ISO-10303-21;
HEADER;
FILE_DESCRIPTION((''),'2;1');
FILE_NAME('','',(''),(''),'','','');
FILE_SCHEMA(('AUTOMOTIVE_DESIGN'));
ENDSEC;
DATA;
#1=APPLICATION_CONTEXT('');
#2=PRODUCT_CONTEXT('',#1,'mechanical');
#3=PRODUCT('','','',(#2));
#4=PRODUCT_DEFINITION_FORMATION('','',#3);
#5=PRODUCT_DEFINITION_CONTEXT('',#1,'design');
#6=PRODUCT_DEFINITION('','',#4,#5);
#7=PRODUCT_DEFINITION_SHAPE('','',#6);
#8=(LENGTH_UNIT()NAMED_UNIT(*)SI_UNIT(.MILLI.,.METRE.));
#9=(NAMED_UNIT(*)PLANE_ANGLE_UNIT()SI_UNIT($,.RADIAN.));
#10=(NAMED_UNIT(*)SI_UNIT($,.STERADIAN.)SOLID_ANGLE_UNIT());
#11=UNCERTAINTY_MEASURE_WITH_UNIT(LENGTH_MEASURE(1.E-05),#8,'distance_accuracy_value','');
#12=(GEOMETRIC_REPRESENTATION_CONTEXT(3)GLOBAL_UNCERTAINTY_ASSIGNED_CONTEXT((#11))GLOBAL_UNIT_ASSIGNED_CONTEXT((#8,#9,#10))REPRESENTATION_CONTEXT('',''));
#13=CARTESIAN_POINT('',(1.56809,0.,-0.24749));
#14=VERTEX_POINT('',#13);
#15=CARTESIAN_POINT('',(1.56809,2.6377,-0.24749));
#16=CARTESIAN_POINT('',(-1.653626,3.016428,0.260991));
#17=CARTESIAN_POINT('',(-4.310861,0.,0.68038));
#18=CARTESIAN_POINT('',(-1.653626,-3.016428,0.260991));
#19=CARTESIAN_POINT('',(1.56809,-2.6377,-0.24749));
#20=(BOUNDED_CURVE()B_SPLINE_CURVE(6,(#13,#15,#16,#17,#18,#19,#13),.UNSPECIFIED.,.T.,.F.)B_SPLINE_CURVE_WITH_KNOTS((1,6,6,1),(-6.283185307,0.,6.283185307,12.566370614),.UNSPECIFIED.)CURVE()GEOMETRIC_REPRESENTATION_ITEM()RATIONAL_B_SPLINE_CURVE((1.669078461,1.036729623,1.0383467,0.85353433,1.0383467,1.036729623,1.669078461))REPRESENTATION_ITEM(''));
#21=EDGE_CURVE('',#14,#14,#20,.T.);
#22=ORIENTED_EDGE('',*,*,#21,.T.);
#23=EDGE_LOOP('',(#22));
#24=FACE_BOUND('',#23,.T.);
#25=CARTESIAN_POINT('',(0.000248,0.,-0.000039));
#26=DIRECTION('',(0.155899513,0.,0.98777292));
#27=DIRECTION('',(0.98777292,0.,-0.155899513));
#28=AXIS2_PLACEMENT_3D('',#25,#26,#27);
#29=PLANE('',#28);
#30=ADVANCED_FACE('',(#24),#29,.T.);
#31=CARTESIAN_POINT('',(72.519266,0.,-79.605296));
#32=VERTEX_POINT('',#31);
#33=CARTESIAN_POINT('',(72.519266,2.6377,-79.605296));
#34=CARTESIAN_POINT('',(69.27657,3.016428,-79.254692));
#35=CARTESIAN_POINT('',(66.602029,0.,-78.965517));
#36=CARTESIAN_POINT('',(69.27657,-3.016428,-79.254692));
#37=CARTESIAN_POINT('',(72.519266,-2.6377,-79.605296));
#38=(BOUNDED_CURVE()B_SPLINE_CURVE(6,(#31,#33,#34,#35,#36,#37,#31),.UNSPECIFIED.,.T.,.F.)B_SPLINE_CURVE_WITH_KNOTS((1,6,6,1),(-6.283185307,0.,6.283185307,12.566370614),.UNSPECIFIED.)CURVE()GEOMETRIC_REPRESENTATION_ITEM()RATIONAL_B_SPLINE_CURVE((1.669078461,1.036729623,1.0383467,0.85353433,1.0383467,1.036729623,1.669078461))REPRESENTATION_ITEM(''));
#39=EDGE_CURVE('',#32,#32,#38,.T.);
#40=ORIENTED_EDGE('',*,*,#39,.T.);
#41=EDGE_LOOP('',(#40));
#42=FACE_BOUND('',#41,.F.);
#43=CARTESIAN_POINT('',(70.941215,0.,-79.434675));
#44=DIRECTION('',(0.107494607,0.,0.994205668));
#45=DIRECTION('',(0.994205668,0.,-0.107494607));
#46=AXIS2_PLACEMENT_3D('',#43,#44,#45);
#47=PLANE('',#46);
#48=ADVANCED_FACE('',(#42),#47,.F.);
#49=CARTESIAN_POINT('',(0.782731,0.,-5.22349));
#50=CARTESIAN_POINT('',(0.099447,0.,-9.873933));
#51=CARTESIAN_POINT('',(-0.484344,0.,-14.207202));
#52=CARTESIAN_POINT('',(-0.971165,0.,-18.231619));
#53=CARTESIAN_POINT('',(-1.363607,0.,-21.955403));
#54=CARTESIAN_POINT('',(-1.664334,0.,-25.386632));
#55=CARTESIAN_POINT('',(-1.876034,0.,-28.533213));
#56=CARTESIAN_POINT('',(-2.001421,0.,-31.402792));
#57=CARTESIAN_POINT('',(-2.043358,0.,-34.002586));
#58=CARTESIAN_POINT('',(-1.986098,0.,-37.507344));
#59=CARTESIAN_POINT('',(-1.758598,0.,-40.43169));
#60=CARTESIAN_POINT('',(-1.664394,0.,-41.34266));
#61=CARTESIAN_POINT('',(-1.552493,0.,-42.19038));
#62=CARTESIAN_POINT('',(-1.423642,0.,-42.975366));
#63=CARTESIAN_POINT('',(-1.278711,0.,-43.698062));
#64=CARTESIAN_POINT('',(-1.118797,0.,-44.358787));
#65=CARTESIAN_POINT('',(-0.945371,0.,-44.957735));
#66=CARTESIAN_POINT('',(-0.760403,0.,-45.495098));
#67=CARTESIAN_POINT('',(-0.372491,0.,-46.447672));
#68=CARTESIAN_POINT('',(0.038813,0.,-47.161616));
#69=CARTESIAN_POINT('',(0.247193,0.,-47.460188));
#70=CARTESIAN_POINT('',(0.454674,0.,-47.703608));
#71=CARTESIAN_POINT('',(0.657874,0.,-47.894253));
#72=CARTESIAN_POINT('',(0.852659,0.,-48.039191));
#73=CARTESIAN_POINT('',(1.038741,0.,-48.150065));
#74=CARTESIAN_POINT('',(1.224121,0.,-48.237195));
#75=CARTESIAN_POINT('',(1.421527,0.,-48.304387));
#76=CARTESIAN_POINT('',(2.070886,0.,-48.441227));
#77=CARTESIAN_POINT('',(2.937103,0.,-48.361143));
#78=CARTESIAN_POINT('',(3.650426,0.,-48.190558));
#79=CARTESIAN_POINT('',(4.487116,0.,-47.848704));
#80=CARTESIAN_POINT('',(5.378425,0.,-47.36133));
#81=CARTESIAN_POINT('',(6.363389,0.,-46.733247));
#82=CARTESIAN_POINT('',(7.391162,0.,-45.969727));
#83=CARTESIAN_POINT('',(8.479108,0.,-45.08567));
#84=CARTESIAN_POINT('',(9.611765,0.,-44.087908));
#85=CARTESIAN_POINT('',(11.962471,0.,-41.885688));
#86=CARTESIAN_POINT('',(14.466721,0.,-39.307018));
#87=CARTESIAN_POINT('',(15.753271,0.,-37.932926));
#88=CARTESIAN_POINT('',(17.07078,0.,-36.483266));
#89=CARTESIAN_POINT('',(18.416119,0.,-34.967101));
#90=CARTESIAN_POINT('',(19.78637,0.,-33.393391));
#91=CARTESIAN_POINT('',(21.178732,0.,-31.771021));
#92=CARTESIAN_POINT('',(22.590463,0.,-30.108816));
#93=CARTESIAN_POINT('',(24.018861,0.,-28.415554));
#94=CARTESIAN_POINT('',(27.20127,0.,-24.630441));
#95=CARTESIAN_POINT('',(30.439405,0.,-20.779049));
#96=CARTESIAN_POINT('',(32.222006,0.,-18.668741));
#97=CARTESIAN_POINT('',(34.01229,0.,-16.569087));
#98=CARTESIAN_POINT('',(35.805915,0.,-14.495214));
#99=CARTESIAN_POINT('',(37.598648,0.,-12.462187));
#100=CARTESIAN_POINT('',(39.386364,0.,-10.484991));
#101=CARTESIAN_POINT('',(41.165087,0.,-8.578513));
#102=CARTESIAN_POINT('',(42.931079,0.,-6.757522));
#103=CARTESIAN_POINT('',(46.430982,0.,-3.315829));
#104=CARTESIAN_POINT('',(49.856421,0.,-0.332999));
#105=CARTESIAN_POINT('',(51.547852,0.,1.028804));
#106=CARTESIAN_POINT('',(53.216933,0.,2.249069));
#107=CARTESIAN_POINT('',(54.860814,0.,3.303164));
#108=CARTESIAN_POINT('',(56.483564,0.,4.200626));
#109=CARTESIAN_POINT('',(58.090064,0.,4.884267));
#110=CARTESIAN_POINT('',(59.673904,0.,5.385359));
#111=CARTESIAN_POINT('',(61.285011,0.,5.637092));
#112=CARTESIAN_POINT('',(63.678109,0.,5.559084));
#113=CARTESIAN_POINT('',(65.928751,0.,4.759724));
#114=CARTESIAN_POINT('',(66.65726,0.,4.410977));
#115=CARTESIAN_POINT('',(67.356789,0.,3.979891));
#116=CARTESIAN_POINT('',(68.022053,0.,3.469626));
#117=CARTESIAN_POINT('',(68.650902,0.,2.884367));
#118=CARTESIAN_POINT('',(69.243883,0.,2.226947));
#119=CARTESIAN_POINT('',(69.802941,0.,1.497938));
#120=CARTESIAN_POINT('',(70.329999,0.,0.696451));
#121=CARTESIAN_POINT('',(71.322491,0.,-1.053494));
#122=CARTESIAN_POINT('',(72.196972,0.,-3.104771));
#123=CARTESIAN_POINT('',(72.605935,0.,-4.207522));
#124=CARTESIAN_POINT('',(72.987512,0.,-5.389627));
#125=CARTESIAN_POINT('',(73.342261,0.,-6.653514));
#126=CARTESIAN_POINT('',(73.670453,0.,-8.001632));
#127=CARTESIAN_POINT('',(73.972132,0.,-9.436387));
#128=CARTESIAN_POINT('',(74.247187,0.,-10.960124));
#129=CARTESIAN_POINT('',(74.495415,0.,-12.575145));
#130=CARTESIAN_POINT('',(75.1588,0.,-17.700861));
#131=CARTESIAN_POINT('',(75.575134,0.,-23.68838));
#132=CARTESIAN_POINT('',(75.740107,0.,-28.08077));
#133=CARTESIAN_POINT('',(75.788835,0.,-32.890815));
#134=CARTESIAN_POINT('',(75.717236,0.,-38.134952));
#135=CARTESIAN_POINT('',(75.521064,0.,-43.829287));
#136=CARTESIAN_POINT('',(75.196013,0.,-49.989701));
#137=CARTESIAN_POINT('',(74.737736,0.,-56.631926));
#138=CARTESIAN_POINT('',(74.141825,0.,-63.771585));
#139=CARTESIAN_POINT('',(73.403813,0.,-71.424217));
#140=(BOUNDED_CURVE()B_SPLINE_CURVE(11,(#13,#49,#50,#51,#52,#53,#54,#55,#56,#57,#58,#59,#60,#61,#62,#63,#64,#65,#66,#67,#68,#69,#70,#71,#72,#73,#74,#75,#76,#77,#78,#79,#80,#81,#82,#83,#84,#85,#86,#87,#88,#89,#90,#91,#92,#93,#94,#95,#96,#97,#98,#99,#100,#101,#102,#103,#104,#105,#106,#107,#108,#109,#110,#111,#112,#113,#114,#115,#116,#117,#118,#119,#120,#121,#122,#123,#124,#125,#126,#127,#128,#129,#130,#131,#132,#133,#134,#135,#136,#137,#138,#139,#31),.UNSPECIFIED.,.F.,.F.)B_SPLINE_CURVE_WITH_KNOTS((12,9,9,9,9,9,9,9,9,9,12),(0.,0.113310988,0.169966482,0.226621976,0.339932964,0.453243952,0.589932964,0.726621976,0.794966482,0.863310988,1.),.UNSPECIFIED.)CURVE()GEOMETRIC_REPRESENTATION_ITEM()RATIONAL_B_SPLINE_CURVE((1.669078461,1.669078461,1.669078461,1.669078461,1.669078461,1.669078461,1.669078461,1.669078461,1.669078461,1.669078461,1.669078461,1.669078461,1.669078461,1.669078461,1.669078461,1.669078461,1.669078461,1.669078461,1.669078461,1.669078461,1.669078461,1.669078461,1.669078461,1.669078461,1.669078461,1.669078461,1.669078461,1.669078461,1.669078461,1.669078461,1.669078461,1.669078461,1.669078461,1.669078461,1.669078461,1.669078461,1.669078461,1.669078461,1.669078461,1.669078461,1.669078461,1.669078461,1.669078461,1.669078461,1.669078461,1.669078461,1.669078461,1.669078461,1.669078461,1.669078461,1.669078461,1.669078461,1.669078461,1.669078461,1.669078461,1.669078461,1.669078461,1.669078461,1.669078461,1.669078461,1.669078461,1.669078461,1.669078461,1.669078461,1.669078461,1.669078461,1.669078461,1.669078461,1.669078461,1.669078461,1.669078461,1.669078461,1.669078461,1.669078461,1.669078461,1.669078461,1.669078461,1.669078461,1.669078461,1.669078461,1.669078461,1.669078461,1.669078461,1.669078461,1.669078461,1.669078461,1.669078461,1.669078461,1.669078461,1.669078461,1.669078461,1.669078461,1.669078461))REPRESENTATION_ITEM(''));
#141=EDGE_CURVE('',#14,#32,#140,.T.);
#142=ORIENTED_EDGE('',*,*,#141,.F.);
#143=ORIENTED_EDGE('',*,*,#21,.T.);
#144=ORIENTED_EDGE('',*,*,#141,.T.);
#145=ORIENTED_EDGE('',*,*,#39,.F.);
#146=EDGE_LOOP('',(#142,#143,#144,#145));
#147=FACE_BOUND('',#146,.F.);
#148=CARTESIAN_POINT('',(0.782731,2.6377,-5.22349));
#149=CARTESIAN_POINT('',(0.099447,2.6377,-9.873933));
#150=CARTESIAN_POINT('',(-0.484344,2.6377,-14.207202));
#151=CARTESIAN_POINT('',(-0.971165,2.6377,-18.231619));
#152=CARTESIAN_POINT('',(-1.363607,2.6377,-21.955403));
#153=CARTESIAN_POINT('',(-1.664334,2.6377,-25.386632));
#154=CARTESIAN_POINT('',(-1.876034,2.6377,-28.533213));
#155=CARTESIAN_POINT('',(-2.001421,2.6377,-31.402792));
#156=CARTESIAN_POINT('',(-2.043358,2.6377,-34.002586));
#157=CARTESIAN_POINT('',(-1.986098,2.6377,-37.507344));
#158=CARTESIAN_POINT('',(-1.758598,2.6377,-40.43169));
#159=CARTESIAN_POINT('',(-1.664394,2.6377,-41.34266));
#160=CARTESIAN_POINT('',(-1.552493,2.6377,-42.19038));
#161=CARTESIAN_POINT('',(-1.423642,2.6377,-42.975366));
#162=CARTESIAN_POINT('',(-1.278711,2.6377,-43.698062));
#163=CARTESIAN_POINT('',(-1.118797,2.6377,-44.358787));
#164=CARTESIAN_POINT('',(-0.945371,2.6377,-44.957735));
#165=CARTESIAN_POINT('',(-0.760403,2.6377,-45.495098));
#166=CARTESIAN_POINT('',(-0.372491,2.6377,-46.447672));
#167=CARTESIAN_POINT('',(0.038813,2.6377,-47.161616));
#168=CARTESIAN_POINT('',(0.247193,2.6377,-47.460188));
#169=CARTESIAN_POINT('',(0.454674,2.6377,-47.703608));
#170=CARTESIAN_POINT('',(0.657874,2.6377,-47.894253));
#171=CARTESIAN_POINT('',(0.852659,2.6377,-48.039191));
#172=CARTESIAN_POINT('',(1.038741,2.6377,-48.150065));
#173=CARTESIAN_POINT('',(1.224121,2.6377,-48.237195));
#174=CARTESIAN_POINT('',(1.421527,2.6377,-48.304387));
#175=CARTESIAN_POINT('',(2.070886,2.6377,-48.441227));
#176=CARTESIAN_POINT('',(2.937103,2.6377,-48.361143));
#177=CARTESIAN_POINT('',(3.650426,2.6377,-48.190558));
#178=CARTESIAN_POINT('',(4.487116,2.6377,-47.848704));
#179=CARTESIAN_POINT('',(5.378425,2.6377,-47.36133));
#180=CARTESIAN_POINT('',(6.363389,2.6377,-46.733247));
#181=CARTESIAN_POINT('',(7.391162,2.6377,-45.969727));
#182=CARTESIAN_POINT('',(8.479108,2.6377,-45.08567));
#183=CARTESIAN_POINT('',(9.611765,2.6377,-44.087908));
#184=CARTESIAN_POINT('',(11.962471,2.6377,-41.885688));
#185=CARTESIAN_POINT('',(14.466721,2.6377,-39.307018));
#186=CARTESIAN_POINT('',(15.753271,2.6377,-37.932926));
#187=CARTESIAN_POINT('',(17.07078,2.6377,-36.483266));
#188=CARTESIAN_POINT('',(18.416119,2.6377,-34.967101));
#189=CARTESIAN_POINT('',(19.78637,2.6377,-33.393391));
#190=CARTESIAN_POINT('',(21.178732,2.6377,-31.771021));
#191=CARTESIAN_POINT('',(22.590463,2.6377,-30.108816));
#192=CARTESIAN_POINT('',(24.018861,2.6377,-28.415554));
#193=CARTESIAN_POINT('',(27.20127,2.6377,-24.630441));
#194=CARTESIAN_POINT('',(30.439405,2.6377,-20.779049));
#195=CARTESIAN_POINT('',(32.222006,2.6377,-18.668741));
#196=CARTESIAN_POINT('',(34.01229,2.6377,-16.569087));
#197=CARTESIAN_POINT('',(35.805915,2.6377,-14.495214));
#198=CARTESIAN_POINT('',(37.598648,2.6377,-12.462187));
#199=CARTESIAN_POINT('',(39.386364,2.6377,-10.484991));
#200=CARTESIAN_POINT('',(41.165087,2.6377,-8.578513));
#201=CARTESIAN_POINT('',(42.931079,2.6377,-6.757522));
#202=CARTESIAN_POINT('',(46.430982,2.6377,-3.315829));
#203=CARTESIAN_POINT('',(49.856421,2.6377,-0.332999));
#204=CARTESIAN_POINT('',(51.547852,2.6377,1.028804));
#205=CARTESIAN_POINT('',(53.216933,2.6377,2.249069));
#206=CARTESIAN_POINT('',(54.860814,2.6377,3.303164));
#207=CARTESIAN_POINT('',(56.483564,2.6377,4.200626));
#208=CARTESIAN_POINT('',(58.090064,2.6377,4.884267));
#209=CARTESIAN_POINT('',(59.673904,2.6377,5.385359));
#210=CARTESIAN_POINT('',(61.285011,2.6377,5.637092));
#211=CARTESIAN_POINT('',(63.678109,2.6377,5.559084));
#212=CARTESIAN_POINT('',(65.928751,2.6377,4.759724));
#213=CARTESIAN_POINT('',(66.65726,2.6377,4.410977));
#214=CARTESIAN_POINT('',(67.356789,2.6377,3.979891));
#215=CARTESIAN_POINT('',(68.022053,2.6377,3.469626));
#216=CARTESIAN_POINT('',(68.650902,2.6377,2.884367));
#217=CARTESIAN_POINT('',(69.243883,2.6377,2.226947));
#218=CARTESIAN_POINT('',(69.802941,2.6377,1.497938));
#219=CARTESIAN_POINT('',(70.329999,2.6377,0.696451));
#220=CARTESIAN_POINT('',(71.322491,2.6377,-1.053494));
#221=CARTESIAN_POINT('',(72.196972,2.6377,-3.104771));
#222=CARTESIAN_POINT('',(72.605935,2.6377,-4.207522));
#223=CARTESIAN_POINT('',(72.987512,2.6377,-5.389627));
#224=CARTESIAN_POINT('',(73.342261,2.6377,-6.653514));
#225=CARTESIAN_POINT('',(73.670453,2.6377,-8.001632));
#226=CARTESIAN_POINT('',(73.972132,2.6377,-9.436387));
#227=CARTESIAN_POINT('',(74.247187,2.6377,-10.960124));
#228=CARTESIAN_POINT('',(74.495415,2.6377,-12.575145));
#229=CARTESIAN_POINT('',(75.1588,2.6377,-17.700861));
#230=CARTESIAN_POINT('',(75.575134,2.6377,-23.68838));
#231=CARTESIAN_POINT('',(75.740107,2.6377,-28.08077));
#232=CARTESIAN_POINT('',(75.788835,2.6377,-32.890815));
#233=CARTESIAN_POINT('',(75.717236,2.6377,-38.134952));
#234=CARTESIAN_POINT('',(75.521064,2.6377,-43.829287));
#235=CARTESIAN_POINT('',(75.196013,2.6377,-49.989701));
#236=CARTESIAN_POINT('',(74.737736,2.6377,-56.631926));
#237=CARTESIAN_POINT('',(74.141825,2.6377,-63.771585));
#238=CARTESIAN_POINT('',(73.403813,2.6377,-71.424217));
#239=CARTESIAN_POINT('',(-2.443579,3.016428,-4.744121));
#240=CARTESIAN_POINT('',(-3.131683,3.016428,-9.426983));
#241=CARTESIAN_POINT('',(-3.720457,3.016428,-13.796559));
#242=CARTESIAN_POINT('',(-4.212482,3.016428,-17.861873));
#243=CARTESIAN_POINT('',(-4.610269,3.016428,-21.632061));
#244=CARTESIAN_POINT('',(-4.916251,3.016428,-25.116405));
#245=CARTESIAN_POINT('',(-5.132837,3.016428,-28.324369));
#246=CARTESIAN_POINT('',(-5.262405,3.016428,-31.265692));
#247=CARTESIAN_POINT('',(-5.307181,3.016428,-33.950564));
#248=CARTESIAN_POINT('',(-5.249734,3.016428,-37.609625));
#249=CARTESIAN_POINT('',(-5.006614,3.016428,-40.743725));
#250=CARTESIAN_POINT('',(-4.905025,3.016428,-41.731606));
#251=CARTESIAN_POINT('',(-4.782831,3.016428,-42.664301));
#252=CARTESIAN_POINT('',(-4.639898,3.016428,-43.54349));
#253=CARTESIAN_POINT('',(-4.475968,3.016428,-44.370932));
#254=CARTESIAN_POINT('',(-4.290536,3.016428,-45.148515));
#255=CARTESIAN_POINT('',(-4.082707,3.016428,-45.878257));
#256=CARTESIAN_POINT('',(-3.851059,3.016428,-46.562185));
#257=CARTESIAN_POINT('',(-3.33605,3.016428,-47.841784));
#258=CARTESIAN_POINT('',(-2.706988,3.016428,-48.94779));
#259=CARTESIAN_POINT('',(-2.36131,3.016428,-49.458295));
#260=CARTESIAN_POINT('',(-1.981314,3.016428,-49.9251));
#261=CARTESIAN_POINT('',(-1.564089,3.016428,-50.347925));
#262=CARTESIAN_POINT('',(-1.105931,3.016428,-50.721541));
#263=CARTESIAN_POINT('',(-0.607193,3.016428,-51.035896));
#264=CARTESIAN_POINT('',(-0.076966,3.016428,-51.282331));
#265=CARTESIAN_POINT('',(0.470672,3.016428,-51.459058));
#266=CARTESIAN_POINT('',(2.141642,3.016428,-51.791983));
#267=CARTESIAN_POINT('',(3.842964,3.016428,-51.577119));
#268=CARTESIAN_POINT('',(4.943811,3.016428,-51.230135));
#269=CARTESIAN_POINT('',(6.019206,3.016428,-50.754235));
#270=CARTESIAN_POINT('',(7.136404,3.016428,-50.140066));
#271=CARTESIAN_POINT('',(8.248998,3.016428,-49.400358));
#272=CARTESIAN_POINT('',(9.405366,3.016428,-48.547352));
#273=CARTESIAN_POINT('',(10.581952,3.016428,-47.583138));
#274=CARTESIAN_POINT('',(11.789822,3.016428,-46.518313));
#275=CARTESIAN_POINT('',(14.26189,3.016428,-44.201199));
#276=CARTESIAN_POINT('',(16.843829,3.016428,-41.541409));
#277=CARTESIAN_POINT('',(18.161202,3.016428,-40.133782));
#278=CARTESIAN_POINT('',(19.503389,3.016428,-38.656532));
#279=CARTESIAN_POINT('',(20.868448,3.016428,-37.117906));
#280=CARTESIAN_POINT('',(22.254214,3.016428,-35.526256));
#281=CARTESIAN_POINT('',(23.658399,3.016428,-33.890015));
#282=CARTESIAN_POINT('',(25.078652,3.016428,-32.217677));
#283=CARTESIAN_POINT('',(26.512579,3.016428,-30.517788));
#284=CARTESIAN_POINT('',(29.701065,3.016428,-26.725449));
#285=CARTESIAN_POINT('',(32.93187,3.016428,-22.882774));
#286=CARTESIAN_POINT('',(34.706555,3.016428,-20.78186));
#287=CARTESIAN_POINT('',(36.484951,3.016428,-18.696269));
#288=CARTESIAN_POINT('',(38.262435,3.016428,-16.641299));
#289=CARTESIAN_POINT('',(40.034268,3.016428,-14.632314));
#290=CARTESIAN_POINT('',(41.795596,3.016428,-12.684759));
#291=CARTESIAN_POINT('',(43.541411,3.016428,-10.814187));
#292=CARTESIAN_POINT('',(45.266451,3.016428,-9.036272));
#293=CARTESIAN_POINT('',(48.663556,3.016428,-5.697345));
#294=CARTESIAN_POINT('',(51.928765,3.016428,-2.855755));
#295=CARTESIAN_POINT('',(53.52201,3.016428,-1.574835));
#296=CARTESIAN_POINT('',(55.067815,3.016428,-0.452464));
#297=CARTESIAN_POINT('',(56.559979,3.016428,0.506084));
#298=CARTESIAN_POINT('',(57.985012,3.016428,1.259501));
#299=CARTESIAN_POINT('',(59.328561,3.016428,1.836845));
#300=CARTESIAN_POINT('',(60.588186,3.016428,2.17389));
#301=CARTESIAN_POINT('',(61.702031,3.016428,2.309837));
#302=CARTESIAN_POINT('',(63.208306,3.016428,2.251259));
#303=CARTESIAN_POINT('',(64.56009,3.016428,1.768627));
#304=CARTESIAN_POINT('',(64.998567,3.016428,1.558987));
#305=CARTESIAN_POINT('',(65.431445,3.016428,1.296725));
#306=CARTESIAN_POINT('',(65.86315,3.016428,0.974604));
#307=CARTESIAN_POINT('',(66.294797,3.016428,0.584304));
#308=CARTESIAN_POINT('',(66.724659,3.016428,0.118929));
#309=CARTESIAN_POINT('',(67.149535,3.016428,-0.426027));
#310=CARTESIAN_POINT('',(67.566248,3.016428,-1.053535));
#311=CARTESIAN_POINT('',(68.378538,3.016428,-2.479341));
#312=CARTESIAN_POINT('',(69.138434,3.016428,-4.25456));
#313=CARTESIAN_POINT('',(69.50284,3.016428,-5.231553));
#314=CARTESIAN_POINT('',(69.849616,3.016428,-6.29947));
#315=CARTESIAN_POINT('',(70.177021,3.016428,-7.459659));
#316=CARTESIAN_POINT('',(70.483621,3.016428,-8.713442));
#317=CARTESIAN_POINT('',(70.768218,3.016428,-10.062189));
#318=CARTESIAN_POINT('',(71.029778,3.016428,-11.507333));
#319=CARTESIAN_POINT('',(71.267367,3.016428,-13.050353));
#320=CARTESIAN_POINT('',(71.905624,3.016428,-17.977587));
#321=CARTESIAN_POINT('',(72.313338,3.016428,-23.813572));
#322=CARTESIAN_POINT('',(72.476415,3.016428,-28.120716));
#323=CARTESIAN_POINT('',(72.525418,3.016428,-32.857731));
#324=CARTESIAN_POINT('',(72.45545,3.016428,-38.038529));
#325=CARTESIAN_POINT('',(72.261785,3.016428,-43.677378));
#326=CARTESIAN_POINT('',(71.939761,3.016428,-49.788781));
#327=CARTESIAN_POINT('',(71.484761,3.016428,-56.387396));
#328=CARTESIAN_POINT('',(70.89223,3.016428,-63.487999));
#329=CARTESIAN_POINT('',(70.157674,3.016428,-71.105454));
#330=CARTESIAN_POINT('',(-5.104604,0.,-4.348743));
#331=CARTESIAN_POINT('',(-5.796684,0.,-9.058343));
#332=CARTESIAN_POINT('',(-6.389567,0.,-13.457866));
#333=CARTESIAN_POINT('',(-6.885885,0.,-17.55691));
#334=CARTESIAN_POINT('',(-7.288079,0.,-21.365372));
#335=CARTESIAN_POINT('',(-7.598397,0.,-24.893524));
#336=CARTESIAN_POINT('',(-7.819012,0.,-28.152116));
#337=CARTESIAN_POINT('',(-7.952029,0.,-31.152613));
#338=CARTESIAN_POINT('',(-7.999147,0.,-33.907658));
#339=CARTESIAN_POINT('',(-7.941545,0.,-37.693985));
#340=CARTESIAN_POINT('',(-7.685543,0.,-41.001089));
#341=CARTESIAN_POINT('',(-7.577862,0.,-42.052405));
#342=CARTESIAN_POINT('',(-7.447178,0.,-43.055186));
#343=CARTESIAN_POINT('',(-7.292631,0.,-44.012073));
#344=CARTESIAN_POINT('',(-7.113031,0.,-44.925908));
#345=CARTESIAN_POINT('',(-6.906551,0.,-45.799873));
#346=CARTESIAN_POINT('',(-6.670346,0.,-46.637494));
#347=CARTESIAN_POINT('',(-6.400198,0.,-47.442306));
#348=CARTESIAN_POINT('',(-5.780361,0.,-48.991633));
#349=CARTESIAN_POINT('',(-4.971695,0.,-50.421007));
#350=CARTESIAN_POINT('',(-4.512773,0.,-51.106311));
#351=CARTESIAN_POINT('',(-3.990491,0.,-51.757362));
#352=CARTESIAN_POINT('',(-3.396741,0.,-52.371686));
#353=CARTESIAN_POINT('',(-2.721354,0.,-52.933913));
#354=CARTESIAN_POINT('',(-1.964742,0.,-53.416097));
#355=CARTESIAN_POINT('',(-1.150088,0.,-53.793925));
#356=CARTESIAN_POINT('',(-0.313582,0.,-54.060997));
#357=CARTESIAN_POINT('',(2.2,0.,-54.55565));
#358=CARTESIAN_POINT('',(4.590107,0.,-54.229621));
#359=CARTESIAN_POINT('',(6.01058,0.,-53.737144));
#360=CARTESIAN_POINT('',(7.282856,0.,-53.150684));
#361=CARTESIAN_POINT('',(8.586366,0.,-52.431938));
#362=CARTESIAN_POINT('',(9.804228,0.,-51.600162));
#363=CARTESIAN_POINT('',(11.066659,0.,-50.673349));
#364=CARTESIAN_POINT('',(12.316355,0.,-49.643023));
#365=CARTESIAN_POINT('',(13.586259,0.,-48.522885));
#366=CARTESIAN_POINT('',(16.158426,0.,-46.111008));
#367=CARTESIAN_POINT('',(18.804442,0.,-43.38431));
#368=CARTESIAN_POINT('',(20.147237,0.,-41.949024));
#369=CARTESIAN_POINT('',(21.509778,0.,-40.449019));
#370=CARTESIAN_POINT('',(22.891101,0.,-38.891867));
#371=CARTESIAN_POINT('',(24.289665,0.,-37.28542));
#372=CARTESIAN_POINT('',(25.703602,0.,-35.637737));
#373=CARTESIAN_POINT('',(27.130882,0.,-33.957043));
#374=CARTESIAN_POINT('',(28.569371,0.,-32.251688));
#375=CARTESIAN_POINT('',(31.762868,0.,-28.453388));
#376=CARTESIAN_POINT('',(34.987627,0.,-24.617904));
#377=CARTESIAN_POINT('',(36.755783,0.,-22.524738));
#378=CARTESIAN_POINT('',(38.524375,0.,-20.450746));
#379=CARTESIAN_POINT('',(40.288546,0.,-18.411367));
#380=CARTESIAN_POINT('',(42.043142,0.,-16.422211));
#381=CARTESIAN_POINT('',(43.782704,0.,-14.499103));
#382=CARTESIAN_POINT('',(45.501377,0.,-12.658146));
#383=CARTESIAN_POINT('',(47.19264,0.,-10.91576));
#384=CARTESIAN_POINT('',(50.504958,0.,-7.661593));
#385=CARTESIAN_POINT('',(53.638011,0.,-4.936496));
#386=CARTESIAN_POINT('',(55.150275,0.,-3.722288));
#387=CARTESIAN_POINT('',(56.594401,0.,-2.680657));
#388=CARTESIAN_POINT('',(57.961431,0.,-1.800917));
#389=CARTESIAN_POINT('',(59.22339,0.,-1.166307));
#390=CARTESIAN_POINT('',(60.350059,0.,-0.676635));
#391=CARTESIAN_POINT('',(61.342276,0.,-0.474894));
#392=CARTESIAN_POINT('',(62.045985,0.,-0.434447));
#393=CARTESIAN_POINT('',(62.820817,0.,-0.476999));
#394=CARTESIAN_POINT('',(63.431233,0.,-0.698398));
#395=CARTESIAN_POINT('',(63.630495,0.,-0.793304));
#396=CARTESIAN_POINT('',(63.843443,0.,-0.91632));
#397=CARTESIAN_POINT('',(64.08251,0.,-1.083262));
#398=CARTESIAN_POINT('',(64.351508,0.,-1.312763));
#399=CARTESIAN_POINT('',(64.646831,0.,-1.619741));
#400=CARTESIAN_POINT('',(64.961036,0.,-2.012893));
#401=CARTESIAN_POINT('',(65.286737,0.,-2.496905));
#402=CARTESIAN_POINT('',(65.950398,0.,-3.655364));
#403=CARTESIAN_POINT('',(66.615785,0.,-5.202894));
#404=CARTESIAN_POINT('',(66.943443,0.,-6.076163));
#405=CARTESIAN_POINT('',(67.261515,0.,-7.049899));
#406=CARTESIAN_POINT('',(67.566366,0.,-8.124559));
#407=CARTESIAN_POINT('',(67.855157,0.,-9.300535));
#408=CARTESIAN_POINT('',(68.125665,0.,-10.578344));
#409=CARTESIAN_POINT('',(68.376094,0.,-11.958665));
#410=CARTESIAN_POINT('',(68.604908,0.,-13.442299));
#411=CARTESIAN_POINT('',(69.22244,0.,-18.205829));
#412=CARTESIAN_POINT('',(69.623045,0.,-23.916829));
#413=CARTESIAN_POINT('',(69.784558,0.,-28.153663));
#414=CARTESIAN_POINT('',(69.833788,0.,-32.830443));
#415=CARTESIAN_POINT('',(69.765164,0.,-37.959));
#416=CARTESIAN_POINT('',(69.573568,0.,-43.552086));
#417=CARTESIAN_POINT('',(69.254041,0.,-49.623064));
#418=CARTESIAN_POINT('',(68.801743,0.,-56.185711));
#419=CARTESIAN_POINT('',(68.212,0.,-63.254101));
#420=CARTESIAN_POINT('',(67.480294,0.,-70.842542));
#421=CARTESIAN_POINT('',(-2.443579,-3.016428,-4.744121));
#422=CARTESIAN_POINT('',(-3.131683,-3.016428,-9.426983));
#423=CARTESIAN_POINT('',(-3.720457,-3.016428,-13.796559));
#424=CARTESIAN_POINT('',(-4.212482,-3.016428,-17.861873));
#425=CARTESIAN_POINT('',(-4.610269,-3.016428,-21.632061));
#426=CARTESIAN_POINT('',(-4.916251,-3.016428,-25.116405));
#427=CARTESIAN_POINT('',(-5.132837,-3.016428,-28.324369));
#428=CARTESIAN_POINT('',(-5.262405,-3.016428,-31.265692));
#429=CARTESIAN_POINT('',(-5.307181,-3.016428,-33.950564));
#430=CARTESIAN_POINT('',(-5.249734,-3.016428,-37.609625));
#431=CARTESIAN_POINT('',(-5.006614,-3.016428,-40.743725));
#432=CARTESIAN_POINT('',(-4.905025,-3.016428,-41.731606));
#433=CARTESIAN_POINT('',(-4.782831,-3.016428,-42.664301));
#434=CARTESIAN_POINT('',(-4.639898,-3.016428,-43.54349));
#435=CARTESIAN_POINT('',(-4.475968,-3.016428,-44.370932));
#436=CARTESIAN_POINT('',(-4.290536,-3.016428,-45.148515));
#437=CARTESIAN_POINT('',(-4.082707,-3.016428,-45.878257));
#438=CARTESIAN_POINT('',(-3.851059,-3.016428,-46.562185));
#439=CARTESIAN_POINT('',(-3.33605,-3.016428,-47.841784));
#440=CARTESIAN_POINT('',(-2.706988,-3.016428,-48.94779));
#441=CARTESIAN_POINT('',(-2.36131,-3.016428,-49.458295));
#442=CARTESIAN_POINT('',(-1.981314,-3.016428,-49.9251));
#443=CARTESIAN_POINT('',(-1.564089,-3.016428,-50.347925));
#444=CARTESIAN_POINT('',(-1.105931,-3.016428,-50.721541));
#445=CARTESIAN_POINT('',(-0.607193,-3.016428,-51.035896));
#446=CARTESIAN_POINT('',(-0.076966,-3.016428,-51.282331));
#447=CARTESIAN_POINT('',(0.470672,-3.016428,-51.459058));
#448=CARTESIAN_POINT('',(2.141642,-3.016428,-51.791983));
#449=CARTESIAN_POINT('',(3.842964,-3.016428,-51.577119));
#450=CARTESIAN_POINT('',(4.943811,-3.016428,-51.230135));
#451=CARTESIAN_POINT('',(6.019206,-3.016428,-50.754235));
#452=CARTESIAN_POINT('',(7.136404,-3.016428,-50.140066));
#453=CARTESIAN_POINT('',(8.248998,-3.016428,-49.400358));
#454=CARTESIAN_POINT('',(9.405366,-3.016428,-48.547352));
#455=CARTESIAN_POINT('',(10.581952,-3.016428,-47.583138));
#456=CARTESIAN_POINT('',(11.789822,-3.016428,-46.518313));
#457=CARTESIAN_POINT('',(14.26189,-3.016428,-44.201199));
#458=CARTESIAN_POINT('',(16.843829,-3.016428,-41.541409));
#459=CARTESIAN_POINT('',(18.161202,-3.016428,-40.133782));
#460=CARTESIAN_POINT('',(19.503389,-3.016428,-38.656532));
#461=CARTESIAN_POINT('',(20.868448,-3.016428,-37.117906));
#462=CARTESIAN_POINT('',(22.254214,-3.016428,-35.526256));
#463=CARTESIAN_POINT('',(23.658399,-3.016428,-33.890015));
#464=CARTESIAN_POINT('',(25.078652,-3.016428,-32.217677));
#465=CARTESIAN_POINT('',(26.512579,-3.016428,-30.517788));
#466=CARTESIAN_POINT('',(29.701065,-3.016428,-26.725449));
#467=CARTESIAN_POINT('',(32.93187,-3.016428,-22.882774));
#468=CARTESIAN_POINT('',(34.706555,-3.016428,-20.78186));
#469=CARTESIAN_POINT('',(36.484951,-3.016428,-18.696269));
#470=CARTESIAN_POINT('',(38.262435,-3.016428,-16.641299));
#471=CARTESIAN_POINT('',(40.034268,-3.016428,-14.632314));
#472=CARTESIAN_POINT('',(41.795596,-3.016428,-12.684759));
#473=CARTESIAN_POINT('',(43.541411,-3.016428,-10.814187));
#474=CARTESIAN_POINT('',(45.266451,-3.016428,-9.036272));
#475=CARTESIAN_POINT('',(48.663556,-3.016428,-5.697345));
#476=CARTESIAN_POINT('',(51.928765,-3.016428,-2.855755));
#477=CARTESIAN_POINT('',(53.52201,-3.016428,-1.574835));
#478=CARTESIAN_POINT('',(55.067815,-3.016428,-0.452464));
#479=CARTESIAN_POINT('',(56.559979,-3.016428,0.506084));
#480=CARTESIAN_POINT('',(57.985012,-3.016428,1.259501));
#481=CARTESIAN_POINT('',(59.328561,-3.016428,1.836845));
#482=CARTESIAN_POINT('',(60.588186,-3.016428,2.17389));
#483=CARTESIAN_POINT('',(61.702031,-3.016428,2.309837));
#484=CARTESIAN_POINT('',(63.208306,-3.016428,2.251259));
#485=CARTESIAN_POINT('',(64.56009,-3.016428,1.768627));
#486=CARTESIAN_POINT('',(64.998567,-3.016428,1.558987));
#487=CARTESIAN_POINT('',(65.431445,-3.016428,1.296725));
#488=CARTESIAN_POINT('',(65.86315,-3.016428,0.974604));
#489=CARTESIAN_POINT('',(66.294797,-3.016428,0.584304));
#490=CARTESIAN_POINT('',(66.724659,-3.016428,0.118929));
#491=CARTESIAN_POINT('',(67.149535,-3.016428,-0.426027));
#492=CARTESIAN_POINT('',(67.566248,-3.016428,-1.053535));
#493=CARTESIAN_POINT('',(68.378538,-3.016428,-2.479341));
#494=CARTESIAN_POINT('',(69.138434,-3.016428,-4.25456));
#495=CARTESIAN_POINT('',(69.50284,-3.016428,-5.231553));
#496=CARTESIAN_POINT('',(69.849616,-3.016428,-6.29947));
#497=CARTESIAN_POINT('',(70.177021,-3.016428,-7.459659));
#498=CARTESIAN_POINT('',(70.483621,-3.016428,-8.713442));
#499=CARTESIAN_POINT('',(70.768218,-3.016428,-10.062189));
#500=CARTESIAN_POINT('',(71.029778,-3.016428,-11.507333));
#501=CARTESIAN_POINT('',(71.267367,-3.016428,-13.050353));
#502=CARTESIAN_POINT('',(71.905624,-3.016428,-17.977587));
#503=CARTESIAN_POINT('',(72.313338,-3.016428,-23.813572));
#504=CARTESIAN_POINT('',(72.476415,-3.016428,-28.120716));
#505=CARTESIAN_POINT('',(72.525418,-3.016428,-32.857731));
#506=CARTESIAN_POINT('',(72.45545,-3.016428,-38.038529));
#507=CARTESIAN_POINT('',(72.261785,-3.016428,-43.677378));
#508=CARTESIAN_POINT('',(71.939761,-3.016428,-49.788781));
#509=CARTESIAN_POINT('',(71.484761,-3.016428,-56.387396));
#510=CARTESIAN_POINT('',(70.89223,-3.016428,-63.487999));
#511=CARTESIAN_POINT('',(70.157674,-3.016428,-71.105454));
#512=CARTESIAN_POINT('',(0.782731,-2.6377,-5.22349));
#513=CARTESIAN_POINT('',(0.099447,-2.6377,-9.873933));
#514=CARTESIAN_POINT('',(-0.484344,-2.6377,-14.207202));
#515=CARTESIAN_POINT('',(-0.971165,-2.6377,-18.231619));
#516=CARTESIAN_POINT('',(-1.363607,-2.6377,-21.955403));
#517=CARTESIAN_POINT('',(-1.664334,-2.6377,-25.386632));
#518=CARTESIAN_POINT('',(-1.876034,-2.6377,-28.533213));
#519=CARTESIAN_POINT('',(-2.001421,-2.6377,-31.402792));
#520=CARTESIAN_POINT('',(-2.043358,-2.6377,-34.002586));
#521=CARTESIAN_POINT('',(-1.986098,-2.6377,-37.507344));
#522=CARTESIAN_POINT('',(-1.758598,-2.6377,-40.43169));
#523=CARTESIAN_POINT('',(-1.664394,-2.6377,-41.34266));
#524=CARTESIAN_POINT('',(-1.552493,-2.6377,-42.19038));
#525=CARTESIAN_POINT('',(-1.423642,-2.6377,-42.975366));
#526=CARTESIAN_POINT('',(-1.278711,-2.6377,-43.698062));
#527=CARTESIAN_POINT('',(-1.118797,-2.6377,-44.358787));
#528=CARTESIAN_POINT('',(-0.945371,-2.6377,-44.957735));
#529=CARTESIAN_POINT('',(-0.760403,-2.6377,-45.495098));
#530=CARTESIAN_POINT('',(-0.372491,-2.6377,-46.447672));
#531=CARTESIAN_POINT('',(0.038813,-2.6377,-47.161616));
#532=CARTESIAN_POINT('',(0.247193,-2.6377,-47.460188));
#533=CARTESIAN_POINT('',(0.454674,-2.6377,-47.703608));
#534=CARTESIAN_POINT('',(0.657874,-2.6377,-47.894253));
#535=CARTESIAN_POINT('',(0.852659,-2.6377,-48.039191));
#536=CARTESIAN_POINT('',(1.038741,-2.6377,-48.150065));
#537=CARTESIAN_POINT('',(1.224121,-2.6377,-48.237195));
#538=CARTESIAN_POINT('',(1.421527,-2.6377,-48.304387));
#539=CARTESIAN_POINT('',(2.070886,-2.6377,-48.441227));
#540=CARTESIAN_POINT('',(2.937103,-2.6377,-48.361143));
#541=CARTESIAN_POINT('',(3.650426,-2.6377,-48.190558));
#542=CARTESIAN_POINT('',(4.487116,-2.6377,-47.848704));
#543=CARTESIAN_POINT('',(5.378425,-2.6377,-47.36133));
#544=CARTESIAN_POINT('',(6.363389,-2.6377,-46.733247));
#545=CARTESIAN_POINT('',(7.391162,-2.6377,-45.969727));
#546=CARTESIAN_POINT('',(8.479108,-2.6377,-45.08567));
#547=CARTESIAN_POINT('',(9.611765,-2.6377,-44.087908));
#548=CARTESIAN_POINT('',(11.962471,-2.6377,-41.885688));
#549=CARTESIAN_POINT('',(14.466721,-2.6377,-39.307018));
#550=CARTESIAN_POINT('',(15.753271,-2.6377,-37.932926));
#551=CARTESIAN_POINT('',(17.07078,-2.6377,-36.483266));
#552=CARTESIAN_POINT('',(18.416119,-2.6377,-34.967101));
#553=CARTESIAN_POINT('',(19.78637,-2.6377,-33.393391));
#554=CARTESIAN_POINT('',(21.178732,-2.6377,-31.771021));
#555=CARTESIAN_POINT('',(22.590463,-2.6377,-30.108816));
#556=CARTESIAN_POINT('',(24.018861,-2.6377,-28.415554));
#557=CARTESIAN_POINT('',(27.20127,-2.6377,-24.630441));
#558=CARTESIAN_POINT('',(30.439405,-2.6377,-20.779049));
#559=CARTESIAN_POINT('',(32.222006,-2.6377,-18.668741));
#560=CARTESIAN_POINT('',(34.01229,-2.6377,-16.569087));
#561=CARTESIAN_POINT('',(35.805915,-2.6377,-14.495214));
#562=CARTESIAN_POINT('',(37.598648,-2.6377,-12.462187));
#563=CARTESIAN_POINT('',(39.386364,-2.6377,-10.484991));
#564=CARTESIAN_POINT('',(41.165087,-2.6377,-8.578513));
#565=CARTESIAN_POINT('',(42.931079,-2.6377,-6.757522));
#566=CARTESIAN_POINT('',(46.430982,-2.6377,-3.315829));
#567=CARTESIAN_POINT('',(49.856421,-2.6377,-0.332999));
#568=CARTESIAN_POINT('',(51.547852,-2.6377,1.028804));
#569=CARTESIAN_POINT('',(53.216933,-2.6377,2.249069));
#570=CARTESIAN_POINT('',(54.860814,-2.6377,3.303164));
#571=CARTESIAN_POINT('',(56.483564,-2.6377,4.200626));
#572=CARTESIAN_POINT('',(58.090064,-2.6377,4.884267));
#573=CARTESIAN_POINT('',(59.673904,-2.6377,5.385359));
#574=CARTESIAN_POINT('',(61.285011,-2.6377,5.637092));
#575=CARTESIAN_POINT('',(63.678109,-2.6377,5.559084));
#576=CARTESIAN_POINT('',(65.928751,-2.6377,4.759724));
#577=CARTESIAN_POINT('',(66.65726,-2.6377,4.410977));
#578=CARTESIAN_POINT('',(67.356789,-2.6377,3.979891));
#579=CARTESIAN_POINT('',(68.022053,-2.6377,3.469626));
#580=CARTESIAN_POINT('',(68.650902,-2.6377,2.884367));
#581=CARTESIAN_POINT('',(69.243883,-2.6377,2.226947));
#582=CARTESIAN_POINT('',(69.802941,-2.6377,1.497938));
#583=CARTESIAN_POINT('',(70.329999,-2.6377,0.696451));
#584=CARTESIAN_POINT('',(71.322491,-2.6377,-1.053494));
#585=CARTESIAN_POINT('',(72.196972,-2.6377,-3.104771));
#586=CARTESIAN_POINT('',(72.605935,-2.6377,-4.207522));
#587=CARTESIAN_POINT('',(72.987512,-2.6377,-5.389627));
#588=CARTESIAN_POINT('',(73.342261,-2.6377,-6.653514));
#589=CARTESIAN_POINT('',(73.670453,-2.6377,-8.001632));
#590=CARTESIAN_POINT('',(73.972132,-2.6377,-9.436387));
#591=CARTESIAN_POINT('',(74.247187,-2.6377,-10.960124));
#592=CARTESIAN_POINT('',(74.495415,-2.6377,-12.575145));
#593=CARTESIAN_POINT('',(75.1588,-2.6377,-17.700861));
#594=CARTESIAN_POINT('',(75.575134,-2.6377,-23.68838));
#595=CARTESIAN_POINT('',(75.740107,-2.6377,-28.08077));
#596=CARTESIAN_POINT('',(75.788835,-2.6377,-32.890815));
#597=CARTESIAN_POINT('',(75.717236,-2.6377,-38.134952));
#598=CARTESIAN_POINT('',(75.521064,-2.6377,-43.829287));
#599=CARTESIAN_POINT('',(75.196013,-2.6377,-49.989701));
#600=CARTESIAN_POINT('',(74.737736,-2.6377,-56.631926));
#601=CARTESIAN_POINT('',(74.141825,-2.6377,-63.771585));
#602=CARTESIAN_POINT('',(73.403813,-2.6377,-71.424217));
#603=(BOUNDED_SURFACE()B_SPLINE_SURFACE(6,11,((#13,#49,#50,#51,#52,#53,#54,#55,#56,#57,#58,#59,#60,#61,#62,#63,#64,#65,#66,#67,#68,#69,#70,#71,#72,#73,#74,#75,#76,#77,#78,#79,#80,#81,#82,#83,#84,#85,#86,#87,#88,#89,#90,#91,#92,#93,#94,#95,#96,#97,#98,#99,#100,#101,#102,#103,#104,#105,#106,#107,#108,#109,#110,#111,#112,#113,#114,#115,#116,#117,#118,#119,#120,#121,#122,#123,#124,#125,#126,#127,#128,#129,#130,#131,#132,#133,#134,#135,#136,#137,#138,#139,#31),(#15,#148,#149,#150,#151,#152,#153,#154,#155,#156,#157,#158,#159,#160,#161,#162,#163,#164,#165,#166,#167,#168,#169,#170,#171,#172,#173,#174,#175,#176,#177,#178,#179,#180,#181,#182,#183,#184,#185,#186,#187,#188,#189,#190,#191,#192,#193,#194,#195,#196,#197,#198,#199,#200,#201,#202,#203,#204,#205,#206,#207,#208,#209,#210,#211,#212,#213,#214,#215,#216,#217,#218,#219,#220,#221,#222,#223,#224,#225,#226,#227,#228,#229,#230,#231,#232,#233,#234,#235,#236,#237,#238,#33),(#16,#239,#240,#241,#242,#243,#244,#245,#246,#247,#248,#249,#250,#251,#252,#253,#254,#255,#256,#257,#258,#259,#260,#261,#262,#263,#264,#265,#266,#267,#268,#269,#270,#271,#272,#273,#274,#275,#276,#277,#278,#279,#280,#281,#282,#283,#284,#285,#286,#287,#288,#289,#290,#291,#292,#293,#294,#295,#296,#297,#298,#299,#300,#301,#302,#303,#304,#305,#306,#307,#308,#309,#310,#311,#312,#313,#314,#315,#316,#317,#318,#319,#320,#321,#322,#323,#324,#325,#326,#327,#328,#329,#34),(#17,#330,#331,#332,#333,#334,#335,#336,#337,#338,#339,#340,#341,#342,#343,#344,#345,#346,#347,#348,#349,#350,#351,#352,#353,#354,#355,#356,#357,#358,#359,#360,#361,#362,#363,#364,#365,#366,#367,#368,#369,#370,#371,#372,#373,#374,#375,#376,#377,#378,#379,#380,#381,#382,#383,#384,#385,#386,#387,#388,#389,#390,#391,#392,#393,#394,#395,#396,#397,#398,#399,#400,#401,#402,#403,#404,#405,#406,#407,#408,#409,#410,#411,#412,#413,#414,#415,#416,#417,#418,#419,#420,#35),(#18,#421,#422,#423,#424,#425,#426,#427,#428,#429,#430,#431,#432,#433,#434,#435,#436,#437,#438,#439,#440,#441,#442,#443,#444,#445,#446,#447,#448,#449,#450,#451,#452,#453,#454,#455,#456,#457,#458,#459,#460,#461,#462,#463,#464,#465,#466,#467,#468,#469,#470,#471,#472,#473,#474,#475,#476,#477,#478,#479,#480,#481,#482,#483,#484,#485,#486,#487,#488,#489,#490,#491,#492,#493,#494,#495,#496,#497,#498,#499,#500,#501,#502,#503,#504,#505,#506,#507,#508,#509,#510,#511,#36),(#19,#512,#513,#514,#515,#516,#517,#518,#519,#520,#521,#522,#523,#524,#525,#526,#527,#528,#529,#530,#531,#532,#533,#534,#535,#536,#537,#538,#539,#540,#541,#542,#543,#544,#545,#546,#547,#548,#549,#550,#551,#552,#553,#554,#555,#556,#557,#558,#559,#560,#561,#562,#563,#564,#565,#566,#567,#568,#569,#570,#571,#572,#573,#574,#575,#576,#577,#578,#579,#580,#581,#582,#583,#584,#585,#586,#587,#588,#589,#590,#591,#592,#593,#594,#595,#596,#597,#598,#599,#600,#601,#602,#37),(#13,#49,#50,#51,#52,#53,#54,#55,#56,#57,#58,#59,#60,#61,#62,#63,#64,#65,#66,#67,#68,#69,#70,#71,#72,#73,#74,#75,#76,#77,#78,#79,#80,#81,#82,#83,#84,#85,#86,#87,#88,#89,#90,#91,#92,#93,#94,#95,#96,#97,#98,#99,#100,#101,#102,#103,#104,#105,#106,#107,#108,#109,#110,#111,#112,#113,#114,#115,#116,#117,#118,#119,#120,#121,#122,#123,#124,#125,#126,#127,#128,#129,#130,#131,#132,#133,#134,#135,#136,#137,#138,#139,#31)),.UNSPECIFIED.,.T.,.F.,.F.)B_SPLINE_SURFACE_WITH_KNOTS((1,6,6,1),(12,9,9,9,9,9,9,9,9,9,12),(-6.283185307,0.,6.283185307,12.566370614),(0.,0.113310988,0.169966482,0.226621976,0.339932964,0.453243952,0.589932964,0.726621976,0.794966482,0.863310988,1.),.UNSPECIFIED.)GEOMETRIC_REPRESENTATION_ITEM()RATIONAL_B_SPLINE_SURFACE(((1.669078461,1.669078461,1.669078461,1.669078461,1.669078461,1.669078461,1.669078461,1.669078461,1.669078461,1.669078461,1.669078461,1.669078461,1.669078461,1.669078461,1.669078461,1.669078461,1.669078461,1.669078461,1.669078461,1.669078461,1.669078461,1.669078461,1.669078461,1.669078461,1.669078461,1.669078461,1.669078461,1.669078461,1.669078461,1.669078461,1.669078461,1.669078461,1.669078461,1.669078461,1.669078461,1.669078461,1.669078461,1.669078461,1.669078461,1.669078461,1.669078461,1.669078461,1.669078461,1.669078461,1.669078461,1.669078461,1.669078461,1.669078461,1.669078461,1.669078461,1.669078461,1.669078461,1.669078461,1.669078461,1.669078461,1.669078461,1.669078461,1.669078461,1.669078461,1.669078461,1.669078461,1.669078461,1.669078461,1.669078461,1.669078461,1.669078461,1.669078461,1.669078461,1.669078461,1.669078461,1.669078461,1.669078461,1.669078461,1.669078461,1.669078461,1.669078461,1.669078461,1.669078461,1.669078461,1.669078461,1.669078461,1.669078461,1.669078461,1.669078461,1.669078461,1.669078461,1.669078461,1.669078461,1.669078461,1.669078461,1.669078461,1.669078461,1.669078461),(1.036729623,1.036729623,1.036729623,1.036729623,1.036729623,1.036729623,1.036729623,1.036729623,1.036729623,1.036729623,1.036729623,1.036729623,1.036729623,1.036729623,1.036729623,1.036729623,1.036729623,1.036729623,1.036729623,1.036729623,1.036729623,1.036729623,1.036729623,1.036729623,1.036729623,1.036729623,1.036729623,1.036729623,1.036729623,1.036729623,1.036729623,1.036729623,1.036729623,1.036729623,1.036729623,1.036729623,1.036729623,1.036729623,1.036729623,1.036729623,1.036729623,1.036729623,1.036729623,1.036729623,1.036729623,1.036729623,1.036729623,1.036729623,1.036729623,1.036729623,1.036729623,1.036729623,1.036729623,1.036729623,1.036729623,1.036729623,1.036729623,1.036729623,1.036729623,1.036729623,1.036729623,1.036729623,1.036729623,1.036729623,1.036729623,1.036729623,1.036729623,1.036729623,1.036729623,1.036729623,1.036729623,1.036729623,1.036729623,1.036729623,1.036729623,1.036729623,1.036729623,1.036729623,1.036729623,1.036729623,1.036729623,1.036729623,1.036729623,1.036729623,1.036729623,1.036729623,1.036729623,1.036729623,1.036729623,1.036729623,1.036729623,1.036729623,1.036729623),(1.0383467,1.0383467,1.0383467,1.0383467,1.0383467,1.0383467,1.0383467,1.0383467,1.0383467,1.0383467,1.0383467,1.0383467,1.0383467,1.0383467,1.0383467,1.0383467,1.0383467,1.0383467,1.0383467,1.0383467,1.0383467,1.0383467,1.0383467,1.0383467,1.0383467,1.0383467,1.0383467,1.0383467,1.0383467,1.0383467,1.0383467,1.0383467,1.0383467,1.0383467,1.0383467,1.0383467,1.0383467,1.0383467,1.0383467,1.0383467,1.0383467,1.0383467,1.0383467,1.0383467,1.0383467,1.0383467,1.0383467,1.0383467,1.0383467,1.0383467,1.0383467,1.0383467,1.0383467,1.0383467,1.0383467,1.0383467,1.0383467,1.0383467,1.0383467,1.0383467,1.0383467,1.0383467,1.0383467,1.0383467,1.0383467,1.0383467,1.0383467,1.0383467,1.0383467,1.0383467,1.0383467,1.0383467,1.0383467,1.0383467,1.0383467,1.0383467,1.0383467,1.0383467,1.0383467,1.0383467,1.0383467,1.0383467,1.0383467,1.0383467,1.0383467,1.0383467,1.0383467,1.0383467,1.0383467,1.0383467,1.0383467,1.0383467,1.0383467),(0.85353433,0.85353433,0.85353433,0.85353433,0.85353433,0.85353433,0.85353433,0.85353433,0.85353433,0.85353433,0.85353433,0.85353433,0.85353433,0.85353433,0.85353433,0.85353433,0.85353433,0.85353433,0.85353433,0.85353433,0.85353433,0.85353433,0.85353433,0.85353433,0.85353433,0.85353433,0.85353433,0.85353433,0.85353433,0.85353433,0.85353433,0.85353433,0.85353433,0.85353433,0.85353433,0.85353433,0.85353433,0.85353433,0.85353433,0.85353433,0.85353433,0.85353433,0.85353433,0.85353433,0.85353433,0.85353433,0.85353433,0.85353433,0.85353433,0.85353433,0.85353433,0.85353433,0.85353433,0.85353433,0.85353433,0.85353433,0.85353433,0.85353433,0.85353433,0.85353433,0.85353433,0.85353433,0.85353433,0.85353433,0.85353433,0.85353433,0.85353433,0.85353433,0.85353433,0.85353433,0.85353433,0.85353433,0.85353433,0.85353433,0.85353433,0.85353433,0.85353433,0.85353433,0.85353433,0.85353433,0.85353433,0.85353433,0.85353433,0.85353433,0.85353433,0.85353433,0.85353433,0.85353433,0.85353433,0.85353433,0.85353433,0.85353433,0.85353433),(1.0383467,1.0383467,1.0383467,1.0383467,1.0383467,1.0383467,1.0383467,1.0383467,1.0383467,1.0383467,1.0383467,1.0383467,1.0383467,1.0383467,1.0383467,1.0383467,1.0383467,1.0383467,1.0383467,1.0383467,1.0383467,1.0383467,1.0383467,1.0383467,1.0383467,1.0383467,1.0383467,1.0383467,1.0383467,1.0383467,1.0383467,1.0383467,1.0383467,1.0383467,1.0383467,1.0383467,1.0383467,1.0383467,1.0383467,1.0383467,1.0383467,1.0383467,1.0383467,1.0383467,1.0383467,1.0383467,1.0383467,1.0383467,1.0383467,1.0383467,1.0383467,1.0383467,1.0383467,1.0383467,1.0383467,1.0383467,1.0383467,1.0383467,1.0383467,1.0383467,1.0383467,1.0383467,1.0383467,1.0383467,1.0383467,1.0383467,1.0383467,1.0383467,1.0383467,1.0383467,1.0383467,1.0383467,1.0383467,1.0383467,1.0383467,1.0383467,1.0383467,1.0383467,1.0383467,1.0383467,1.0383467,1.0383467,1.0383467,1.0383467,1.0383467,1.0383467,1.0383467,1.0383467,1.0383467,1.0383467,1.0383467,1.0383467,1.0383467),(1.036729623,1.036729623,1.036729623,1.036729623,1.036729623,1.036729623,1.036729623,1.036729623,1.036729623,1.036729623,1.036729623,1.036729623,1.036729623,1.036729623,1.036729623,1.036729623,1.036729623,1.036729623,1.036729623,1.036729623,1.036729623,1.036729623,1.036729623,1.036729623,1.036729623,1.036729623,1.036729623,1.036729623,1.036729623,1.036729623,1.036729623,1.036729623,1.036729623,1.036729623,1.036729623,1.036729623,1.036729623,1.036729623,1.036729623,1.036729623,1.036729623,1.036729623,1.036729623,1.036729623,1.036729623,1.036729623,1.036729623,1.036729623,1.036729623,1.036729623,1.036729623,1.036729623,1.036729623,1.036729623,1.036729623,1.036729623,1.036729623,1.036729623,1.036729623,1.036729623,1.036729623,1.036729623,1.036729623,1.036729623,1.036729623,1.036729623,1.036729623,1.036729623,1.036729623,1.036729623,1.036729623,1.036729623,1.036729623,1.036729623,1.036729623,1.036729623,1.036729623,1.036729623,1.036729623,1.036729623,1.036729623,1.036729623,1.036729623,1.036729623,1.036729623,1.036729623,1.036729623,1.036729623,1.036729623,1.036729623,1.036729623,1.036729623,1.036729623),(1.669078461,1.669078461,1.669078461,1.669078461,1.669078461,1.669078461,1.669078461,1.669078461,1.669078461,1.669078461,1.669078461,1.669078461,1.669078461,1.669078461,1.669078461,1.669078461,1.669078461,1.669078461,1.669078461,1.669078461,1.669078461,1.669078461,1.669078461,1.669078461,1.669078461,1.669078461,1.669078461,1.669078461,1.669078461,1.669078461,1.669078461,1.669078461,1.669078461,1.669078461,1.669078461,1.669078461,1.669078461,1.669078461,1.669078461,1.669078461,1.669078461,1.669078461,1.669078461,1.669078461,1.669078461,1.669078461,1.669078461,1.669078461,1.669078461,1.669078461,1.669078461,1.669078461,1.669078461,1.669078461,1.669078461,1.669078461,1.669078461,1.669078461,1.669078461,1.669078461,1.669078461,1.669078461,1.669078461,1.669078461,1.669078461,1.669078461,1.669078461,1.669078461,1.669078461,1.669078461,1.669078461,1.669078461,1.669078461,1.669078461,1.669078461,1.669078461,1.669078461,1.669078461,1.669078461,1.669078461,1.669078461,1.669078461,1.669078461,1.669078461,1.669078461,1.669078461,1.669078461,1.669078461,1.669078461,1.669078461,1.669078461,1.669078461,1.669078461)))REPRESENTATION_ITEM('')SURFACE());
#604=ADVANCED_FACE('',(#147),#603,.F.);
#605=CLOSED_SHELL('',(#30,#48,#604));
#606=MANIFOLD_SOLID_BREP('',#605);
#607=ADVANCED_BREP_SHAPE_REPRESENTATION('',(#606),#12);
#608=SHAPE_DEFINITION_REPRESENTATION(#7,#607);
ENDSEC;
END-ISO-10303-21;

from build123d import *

# Parameters (mm, degrees)
SKETCH6_R = 1.5875


with BuildPart() as part:
    # Sweep1: sweep along a path in Sketch4
    with BuildLine() as sweep1_path:  # in the path sketch's own coordinates; laid on its plane below (add() does not lay a ready-made edge on the line's plane)
        add(Edge.make_bspline(
            [(0, 0), (-25.486036872, 161.478484295), (94.623890288, -139.606097555), (70.940964741, 79.434647897)],
            knots=[0, 0, 0, 0, 1, 1, 1, 1], degree=3))
    # Sketch6 → Sweep1 (sweep)
    with BuildSketch(Plane(origin=(0, 0, 0), x_dir=(0.9877729201796388, 0, -0.15589951301973023), z_dir=(0.15589951301973023, 0, 0.9877729201796388))):
        Circle(SKETCH6_R)
    sweep(path=Plane(origin=(0, 0, 0), x_dir=(1, 0, 0), z_dir=(0, 1, 0)) * sweep1_path.line)


solid = part.part
